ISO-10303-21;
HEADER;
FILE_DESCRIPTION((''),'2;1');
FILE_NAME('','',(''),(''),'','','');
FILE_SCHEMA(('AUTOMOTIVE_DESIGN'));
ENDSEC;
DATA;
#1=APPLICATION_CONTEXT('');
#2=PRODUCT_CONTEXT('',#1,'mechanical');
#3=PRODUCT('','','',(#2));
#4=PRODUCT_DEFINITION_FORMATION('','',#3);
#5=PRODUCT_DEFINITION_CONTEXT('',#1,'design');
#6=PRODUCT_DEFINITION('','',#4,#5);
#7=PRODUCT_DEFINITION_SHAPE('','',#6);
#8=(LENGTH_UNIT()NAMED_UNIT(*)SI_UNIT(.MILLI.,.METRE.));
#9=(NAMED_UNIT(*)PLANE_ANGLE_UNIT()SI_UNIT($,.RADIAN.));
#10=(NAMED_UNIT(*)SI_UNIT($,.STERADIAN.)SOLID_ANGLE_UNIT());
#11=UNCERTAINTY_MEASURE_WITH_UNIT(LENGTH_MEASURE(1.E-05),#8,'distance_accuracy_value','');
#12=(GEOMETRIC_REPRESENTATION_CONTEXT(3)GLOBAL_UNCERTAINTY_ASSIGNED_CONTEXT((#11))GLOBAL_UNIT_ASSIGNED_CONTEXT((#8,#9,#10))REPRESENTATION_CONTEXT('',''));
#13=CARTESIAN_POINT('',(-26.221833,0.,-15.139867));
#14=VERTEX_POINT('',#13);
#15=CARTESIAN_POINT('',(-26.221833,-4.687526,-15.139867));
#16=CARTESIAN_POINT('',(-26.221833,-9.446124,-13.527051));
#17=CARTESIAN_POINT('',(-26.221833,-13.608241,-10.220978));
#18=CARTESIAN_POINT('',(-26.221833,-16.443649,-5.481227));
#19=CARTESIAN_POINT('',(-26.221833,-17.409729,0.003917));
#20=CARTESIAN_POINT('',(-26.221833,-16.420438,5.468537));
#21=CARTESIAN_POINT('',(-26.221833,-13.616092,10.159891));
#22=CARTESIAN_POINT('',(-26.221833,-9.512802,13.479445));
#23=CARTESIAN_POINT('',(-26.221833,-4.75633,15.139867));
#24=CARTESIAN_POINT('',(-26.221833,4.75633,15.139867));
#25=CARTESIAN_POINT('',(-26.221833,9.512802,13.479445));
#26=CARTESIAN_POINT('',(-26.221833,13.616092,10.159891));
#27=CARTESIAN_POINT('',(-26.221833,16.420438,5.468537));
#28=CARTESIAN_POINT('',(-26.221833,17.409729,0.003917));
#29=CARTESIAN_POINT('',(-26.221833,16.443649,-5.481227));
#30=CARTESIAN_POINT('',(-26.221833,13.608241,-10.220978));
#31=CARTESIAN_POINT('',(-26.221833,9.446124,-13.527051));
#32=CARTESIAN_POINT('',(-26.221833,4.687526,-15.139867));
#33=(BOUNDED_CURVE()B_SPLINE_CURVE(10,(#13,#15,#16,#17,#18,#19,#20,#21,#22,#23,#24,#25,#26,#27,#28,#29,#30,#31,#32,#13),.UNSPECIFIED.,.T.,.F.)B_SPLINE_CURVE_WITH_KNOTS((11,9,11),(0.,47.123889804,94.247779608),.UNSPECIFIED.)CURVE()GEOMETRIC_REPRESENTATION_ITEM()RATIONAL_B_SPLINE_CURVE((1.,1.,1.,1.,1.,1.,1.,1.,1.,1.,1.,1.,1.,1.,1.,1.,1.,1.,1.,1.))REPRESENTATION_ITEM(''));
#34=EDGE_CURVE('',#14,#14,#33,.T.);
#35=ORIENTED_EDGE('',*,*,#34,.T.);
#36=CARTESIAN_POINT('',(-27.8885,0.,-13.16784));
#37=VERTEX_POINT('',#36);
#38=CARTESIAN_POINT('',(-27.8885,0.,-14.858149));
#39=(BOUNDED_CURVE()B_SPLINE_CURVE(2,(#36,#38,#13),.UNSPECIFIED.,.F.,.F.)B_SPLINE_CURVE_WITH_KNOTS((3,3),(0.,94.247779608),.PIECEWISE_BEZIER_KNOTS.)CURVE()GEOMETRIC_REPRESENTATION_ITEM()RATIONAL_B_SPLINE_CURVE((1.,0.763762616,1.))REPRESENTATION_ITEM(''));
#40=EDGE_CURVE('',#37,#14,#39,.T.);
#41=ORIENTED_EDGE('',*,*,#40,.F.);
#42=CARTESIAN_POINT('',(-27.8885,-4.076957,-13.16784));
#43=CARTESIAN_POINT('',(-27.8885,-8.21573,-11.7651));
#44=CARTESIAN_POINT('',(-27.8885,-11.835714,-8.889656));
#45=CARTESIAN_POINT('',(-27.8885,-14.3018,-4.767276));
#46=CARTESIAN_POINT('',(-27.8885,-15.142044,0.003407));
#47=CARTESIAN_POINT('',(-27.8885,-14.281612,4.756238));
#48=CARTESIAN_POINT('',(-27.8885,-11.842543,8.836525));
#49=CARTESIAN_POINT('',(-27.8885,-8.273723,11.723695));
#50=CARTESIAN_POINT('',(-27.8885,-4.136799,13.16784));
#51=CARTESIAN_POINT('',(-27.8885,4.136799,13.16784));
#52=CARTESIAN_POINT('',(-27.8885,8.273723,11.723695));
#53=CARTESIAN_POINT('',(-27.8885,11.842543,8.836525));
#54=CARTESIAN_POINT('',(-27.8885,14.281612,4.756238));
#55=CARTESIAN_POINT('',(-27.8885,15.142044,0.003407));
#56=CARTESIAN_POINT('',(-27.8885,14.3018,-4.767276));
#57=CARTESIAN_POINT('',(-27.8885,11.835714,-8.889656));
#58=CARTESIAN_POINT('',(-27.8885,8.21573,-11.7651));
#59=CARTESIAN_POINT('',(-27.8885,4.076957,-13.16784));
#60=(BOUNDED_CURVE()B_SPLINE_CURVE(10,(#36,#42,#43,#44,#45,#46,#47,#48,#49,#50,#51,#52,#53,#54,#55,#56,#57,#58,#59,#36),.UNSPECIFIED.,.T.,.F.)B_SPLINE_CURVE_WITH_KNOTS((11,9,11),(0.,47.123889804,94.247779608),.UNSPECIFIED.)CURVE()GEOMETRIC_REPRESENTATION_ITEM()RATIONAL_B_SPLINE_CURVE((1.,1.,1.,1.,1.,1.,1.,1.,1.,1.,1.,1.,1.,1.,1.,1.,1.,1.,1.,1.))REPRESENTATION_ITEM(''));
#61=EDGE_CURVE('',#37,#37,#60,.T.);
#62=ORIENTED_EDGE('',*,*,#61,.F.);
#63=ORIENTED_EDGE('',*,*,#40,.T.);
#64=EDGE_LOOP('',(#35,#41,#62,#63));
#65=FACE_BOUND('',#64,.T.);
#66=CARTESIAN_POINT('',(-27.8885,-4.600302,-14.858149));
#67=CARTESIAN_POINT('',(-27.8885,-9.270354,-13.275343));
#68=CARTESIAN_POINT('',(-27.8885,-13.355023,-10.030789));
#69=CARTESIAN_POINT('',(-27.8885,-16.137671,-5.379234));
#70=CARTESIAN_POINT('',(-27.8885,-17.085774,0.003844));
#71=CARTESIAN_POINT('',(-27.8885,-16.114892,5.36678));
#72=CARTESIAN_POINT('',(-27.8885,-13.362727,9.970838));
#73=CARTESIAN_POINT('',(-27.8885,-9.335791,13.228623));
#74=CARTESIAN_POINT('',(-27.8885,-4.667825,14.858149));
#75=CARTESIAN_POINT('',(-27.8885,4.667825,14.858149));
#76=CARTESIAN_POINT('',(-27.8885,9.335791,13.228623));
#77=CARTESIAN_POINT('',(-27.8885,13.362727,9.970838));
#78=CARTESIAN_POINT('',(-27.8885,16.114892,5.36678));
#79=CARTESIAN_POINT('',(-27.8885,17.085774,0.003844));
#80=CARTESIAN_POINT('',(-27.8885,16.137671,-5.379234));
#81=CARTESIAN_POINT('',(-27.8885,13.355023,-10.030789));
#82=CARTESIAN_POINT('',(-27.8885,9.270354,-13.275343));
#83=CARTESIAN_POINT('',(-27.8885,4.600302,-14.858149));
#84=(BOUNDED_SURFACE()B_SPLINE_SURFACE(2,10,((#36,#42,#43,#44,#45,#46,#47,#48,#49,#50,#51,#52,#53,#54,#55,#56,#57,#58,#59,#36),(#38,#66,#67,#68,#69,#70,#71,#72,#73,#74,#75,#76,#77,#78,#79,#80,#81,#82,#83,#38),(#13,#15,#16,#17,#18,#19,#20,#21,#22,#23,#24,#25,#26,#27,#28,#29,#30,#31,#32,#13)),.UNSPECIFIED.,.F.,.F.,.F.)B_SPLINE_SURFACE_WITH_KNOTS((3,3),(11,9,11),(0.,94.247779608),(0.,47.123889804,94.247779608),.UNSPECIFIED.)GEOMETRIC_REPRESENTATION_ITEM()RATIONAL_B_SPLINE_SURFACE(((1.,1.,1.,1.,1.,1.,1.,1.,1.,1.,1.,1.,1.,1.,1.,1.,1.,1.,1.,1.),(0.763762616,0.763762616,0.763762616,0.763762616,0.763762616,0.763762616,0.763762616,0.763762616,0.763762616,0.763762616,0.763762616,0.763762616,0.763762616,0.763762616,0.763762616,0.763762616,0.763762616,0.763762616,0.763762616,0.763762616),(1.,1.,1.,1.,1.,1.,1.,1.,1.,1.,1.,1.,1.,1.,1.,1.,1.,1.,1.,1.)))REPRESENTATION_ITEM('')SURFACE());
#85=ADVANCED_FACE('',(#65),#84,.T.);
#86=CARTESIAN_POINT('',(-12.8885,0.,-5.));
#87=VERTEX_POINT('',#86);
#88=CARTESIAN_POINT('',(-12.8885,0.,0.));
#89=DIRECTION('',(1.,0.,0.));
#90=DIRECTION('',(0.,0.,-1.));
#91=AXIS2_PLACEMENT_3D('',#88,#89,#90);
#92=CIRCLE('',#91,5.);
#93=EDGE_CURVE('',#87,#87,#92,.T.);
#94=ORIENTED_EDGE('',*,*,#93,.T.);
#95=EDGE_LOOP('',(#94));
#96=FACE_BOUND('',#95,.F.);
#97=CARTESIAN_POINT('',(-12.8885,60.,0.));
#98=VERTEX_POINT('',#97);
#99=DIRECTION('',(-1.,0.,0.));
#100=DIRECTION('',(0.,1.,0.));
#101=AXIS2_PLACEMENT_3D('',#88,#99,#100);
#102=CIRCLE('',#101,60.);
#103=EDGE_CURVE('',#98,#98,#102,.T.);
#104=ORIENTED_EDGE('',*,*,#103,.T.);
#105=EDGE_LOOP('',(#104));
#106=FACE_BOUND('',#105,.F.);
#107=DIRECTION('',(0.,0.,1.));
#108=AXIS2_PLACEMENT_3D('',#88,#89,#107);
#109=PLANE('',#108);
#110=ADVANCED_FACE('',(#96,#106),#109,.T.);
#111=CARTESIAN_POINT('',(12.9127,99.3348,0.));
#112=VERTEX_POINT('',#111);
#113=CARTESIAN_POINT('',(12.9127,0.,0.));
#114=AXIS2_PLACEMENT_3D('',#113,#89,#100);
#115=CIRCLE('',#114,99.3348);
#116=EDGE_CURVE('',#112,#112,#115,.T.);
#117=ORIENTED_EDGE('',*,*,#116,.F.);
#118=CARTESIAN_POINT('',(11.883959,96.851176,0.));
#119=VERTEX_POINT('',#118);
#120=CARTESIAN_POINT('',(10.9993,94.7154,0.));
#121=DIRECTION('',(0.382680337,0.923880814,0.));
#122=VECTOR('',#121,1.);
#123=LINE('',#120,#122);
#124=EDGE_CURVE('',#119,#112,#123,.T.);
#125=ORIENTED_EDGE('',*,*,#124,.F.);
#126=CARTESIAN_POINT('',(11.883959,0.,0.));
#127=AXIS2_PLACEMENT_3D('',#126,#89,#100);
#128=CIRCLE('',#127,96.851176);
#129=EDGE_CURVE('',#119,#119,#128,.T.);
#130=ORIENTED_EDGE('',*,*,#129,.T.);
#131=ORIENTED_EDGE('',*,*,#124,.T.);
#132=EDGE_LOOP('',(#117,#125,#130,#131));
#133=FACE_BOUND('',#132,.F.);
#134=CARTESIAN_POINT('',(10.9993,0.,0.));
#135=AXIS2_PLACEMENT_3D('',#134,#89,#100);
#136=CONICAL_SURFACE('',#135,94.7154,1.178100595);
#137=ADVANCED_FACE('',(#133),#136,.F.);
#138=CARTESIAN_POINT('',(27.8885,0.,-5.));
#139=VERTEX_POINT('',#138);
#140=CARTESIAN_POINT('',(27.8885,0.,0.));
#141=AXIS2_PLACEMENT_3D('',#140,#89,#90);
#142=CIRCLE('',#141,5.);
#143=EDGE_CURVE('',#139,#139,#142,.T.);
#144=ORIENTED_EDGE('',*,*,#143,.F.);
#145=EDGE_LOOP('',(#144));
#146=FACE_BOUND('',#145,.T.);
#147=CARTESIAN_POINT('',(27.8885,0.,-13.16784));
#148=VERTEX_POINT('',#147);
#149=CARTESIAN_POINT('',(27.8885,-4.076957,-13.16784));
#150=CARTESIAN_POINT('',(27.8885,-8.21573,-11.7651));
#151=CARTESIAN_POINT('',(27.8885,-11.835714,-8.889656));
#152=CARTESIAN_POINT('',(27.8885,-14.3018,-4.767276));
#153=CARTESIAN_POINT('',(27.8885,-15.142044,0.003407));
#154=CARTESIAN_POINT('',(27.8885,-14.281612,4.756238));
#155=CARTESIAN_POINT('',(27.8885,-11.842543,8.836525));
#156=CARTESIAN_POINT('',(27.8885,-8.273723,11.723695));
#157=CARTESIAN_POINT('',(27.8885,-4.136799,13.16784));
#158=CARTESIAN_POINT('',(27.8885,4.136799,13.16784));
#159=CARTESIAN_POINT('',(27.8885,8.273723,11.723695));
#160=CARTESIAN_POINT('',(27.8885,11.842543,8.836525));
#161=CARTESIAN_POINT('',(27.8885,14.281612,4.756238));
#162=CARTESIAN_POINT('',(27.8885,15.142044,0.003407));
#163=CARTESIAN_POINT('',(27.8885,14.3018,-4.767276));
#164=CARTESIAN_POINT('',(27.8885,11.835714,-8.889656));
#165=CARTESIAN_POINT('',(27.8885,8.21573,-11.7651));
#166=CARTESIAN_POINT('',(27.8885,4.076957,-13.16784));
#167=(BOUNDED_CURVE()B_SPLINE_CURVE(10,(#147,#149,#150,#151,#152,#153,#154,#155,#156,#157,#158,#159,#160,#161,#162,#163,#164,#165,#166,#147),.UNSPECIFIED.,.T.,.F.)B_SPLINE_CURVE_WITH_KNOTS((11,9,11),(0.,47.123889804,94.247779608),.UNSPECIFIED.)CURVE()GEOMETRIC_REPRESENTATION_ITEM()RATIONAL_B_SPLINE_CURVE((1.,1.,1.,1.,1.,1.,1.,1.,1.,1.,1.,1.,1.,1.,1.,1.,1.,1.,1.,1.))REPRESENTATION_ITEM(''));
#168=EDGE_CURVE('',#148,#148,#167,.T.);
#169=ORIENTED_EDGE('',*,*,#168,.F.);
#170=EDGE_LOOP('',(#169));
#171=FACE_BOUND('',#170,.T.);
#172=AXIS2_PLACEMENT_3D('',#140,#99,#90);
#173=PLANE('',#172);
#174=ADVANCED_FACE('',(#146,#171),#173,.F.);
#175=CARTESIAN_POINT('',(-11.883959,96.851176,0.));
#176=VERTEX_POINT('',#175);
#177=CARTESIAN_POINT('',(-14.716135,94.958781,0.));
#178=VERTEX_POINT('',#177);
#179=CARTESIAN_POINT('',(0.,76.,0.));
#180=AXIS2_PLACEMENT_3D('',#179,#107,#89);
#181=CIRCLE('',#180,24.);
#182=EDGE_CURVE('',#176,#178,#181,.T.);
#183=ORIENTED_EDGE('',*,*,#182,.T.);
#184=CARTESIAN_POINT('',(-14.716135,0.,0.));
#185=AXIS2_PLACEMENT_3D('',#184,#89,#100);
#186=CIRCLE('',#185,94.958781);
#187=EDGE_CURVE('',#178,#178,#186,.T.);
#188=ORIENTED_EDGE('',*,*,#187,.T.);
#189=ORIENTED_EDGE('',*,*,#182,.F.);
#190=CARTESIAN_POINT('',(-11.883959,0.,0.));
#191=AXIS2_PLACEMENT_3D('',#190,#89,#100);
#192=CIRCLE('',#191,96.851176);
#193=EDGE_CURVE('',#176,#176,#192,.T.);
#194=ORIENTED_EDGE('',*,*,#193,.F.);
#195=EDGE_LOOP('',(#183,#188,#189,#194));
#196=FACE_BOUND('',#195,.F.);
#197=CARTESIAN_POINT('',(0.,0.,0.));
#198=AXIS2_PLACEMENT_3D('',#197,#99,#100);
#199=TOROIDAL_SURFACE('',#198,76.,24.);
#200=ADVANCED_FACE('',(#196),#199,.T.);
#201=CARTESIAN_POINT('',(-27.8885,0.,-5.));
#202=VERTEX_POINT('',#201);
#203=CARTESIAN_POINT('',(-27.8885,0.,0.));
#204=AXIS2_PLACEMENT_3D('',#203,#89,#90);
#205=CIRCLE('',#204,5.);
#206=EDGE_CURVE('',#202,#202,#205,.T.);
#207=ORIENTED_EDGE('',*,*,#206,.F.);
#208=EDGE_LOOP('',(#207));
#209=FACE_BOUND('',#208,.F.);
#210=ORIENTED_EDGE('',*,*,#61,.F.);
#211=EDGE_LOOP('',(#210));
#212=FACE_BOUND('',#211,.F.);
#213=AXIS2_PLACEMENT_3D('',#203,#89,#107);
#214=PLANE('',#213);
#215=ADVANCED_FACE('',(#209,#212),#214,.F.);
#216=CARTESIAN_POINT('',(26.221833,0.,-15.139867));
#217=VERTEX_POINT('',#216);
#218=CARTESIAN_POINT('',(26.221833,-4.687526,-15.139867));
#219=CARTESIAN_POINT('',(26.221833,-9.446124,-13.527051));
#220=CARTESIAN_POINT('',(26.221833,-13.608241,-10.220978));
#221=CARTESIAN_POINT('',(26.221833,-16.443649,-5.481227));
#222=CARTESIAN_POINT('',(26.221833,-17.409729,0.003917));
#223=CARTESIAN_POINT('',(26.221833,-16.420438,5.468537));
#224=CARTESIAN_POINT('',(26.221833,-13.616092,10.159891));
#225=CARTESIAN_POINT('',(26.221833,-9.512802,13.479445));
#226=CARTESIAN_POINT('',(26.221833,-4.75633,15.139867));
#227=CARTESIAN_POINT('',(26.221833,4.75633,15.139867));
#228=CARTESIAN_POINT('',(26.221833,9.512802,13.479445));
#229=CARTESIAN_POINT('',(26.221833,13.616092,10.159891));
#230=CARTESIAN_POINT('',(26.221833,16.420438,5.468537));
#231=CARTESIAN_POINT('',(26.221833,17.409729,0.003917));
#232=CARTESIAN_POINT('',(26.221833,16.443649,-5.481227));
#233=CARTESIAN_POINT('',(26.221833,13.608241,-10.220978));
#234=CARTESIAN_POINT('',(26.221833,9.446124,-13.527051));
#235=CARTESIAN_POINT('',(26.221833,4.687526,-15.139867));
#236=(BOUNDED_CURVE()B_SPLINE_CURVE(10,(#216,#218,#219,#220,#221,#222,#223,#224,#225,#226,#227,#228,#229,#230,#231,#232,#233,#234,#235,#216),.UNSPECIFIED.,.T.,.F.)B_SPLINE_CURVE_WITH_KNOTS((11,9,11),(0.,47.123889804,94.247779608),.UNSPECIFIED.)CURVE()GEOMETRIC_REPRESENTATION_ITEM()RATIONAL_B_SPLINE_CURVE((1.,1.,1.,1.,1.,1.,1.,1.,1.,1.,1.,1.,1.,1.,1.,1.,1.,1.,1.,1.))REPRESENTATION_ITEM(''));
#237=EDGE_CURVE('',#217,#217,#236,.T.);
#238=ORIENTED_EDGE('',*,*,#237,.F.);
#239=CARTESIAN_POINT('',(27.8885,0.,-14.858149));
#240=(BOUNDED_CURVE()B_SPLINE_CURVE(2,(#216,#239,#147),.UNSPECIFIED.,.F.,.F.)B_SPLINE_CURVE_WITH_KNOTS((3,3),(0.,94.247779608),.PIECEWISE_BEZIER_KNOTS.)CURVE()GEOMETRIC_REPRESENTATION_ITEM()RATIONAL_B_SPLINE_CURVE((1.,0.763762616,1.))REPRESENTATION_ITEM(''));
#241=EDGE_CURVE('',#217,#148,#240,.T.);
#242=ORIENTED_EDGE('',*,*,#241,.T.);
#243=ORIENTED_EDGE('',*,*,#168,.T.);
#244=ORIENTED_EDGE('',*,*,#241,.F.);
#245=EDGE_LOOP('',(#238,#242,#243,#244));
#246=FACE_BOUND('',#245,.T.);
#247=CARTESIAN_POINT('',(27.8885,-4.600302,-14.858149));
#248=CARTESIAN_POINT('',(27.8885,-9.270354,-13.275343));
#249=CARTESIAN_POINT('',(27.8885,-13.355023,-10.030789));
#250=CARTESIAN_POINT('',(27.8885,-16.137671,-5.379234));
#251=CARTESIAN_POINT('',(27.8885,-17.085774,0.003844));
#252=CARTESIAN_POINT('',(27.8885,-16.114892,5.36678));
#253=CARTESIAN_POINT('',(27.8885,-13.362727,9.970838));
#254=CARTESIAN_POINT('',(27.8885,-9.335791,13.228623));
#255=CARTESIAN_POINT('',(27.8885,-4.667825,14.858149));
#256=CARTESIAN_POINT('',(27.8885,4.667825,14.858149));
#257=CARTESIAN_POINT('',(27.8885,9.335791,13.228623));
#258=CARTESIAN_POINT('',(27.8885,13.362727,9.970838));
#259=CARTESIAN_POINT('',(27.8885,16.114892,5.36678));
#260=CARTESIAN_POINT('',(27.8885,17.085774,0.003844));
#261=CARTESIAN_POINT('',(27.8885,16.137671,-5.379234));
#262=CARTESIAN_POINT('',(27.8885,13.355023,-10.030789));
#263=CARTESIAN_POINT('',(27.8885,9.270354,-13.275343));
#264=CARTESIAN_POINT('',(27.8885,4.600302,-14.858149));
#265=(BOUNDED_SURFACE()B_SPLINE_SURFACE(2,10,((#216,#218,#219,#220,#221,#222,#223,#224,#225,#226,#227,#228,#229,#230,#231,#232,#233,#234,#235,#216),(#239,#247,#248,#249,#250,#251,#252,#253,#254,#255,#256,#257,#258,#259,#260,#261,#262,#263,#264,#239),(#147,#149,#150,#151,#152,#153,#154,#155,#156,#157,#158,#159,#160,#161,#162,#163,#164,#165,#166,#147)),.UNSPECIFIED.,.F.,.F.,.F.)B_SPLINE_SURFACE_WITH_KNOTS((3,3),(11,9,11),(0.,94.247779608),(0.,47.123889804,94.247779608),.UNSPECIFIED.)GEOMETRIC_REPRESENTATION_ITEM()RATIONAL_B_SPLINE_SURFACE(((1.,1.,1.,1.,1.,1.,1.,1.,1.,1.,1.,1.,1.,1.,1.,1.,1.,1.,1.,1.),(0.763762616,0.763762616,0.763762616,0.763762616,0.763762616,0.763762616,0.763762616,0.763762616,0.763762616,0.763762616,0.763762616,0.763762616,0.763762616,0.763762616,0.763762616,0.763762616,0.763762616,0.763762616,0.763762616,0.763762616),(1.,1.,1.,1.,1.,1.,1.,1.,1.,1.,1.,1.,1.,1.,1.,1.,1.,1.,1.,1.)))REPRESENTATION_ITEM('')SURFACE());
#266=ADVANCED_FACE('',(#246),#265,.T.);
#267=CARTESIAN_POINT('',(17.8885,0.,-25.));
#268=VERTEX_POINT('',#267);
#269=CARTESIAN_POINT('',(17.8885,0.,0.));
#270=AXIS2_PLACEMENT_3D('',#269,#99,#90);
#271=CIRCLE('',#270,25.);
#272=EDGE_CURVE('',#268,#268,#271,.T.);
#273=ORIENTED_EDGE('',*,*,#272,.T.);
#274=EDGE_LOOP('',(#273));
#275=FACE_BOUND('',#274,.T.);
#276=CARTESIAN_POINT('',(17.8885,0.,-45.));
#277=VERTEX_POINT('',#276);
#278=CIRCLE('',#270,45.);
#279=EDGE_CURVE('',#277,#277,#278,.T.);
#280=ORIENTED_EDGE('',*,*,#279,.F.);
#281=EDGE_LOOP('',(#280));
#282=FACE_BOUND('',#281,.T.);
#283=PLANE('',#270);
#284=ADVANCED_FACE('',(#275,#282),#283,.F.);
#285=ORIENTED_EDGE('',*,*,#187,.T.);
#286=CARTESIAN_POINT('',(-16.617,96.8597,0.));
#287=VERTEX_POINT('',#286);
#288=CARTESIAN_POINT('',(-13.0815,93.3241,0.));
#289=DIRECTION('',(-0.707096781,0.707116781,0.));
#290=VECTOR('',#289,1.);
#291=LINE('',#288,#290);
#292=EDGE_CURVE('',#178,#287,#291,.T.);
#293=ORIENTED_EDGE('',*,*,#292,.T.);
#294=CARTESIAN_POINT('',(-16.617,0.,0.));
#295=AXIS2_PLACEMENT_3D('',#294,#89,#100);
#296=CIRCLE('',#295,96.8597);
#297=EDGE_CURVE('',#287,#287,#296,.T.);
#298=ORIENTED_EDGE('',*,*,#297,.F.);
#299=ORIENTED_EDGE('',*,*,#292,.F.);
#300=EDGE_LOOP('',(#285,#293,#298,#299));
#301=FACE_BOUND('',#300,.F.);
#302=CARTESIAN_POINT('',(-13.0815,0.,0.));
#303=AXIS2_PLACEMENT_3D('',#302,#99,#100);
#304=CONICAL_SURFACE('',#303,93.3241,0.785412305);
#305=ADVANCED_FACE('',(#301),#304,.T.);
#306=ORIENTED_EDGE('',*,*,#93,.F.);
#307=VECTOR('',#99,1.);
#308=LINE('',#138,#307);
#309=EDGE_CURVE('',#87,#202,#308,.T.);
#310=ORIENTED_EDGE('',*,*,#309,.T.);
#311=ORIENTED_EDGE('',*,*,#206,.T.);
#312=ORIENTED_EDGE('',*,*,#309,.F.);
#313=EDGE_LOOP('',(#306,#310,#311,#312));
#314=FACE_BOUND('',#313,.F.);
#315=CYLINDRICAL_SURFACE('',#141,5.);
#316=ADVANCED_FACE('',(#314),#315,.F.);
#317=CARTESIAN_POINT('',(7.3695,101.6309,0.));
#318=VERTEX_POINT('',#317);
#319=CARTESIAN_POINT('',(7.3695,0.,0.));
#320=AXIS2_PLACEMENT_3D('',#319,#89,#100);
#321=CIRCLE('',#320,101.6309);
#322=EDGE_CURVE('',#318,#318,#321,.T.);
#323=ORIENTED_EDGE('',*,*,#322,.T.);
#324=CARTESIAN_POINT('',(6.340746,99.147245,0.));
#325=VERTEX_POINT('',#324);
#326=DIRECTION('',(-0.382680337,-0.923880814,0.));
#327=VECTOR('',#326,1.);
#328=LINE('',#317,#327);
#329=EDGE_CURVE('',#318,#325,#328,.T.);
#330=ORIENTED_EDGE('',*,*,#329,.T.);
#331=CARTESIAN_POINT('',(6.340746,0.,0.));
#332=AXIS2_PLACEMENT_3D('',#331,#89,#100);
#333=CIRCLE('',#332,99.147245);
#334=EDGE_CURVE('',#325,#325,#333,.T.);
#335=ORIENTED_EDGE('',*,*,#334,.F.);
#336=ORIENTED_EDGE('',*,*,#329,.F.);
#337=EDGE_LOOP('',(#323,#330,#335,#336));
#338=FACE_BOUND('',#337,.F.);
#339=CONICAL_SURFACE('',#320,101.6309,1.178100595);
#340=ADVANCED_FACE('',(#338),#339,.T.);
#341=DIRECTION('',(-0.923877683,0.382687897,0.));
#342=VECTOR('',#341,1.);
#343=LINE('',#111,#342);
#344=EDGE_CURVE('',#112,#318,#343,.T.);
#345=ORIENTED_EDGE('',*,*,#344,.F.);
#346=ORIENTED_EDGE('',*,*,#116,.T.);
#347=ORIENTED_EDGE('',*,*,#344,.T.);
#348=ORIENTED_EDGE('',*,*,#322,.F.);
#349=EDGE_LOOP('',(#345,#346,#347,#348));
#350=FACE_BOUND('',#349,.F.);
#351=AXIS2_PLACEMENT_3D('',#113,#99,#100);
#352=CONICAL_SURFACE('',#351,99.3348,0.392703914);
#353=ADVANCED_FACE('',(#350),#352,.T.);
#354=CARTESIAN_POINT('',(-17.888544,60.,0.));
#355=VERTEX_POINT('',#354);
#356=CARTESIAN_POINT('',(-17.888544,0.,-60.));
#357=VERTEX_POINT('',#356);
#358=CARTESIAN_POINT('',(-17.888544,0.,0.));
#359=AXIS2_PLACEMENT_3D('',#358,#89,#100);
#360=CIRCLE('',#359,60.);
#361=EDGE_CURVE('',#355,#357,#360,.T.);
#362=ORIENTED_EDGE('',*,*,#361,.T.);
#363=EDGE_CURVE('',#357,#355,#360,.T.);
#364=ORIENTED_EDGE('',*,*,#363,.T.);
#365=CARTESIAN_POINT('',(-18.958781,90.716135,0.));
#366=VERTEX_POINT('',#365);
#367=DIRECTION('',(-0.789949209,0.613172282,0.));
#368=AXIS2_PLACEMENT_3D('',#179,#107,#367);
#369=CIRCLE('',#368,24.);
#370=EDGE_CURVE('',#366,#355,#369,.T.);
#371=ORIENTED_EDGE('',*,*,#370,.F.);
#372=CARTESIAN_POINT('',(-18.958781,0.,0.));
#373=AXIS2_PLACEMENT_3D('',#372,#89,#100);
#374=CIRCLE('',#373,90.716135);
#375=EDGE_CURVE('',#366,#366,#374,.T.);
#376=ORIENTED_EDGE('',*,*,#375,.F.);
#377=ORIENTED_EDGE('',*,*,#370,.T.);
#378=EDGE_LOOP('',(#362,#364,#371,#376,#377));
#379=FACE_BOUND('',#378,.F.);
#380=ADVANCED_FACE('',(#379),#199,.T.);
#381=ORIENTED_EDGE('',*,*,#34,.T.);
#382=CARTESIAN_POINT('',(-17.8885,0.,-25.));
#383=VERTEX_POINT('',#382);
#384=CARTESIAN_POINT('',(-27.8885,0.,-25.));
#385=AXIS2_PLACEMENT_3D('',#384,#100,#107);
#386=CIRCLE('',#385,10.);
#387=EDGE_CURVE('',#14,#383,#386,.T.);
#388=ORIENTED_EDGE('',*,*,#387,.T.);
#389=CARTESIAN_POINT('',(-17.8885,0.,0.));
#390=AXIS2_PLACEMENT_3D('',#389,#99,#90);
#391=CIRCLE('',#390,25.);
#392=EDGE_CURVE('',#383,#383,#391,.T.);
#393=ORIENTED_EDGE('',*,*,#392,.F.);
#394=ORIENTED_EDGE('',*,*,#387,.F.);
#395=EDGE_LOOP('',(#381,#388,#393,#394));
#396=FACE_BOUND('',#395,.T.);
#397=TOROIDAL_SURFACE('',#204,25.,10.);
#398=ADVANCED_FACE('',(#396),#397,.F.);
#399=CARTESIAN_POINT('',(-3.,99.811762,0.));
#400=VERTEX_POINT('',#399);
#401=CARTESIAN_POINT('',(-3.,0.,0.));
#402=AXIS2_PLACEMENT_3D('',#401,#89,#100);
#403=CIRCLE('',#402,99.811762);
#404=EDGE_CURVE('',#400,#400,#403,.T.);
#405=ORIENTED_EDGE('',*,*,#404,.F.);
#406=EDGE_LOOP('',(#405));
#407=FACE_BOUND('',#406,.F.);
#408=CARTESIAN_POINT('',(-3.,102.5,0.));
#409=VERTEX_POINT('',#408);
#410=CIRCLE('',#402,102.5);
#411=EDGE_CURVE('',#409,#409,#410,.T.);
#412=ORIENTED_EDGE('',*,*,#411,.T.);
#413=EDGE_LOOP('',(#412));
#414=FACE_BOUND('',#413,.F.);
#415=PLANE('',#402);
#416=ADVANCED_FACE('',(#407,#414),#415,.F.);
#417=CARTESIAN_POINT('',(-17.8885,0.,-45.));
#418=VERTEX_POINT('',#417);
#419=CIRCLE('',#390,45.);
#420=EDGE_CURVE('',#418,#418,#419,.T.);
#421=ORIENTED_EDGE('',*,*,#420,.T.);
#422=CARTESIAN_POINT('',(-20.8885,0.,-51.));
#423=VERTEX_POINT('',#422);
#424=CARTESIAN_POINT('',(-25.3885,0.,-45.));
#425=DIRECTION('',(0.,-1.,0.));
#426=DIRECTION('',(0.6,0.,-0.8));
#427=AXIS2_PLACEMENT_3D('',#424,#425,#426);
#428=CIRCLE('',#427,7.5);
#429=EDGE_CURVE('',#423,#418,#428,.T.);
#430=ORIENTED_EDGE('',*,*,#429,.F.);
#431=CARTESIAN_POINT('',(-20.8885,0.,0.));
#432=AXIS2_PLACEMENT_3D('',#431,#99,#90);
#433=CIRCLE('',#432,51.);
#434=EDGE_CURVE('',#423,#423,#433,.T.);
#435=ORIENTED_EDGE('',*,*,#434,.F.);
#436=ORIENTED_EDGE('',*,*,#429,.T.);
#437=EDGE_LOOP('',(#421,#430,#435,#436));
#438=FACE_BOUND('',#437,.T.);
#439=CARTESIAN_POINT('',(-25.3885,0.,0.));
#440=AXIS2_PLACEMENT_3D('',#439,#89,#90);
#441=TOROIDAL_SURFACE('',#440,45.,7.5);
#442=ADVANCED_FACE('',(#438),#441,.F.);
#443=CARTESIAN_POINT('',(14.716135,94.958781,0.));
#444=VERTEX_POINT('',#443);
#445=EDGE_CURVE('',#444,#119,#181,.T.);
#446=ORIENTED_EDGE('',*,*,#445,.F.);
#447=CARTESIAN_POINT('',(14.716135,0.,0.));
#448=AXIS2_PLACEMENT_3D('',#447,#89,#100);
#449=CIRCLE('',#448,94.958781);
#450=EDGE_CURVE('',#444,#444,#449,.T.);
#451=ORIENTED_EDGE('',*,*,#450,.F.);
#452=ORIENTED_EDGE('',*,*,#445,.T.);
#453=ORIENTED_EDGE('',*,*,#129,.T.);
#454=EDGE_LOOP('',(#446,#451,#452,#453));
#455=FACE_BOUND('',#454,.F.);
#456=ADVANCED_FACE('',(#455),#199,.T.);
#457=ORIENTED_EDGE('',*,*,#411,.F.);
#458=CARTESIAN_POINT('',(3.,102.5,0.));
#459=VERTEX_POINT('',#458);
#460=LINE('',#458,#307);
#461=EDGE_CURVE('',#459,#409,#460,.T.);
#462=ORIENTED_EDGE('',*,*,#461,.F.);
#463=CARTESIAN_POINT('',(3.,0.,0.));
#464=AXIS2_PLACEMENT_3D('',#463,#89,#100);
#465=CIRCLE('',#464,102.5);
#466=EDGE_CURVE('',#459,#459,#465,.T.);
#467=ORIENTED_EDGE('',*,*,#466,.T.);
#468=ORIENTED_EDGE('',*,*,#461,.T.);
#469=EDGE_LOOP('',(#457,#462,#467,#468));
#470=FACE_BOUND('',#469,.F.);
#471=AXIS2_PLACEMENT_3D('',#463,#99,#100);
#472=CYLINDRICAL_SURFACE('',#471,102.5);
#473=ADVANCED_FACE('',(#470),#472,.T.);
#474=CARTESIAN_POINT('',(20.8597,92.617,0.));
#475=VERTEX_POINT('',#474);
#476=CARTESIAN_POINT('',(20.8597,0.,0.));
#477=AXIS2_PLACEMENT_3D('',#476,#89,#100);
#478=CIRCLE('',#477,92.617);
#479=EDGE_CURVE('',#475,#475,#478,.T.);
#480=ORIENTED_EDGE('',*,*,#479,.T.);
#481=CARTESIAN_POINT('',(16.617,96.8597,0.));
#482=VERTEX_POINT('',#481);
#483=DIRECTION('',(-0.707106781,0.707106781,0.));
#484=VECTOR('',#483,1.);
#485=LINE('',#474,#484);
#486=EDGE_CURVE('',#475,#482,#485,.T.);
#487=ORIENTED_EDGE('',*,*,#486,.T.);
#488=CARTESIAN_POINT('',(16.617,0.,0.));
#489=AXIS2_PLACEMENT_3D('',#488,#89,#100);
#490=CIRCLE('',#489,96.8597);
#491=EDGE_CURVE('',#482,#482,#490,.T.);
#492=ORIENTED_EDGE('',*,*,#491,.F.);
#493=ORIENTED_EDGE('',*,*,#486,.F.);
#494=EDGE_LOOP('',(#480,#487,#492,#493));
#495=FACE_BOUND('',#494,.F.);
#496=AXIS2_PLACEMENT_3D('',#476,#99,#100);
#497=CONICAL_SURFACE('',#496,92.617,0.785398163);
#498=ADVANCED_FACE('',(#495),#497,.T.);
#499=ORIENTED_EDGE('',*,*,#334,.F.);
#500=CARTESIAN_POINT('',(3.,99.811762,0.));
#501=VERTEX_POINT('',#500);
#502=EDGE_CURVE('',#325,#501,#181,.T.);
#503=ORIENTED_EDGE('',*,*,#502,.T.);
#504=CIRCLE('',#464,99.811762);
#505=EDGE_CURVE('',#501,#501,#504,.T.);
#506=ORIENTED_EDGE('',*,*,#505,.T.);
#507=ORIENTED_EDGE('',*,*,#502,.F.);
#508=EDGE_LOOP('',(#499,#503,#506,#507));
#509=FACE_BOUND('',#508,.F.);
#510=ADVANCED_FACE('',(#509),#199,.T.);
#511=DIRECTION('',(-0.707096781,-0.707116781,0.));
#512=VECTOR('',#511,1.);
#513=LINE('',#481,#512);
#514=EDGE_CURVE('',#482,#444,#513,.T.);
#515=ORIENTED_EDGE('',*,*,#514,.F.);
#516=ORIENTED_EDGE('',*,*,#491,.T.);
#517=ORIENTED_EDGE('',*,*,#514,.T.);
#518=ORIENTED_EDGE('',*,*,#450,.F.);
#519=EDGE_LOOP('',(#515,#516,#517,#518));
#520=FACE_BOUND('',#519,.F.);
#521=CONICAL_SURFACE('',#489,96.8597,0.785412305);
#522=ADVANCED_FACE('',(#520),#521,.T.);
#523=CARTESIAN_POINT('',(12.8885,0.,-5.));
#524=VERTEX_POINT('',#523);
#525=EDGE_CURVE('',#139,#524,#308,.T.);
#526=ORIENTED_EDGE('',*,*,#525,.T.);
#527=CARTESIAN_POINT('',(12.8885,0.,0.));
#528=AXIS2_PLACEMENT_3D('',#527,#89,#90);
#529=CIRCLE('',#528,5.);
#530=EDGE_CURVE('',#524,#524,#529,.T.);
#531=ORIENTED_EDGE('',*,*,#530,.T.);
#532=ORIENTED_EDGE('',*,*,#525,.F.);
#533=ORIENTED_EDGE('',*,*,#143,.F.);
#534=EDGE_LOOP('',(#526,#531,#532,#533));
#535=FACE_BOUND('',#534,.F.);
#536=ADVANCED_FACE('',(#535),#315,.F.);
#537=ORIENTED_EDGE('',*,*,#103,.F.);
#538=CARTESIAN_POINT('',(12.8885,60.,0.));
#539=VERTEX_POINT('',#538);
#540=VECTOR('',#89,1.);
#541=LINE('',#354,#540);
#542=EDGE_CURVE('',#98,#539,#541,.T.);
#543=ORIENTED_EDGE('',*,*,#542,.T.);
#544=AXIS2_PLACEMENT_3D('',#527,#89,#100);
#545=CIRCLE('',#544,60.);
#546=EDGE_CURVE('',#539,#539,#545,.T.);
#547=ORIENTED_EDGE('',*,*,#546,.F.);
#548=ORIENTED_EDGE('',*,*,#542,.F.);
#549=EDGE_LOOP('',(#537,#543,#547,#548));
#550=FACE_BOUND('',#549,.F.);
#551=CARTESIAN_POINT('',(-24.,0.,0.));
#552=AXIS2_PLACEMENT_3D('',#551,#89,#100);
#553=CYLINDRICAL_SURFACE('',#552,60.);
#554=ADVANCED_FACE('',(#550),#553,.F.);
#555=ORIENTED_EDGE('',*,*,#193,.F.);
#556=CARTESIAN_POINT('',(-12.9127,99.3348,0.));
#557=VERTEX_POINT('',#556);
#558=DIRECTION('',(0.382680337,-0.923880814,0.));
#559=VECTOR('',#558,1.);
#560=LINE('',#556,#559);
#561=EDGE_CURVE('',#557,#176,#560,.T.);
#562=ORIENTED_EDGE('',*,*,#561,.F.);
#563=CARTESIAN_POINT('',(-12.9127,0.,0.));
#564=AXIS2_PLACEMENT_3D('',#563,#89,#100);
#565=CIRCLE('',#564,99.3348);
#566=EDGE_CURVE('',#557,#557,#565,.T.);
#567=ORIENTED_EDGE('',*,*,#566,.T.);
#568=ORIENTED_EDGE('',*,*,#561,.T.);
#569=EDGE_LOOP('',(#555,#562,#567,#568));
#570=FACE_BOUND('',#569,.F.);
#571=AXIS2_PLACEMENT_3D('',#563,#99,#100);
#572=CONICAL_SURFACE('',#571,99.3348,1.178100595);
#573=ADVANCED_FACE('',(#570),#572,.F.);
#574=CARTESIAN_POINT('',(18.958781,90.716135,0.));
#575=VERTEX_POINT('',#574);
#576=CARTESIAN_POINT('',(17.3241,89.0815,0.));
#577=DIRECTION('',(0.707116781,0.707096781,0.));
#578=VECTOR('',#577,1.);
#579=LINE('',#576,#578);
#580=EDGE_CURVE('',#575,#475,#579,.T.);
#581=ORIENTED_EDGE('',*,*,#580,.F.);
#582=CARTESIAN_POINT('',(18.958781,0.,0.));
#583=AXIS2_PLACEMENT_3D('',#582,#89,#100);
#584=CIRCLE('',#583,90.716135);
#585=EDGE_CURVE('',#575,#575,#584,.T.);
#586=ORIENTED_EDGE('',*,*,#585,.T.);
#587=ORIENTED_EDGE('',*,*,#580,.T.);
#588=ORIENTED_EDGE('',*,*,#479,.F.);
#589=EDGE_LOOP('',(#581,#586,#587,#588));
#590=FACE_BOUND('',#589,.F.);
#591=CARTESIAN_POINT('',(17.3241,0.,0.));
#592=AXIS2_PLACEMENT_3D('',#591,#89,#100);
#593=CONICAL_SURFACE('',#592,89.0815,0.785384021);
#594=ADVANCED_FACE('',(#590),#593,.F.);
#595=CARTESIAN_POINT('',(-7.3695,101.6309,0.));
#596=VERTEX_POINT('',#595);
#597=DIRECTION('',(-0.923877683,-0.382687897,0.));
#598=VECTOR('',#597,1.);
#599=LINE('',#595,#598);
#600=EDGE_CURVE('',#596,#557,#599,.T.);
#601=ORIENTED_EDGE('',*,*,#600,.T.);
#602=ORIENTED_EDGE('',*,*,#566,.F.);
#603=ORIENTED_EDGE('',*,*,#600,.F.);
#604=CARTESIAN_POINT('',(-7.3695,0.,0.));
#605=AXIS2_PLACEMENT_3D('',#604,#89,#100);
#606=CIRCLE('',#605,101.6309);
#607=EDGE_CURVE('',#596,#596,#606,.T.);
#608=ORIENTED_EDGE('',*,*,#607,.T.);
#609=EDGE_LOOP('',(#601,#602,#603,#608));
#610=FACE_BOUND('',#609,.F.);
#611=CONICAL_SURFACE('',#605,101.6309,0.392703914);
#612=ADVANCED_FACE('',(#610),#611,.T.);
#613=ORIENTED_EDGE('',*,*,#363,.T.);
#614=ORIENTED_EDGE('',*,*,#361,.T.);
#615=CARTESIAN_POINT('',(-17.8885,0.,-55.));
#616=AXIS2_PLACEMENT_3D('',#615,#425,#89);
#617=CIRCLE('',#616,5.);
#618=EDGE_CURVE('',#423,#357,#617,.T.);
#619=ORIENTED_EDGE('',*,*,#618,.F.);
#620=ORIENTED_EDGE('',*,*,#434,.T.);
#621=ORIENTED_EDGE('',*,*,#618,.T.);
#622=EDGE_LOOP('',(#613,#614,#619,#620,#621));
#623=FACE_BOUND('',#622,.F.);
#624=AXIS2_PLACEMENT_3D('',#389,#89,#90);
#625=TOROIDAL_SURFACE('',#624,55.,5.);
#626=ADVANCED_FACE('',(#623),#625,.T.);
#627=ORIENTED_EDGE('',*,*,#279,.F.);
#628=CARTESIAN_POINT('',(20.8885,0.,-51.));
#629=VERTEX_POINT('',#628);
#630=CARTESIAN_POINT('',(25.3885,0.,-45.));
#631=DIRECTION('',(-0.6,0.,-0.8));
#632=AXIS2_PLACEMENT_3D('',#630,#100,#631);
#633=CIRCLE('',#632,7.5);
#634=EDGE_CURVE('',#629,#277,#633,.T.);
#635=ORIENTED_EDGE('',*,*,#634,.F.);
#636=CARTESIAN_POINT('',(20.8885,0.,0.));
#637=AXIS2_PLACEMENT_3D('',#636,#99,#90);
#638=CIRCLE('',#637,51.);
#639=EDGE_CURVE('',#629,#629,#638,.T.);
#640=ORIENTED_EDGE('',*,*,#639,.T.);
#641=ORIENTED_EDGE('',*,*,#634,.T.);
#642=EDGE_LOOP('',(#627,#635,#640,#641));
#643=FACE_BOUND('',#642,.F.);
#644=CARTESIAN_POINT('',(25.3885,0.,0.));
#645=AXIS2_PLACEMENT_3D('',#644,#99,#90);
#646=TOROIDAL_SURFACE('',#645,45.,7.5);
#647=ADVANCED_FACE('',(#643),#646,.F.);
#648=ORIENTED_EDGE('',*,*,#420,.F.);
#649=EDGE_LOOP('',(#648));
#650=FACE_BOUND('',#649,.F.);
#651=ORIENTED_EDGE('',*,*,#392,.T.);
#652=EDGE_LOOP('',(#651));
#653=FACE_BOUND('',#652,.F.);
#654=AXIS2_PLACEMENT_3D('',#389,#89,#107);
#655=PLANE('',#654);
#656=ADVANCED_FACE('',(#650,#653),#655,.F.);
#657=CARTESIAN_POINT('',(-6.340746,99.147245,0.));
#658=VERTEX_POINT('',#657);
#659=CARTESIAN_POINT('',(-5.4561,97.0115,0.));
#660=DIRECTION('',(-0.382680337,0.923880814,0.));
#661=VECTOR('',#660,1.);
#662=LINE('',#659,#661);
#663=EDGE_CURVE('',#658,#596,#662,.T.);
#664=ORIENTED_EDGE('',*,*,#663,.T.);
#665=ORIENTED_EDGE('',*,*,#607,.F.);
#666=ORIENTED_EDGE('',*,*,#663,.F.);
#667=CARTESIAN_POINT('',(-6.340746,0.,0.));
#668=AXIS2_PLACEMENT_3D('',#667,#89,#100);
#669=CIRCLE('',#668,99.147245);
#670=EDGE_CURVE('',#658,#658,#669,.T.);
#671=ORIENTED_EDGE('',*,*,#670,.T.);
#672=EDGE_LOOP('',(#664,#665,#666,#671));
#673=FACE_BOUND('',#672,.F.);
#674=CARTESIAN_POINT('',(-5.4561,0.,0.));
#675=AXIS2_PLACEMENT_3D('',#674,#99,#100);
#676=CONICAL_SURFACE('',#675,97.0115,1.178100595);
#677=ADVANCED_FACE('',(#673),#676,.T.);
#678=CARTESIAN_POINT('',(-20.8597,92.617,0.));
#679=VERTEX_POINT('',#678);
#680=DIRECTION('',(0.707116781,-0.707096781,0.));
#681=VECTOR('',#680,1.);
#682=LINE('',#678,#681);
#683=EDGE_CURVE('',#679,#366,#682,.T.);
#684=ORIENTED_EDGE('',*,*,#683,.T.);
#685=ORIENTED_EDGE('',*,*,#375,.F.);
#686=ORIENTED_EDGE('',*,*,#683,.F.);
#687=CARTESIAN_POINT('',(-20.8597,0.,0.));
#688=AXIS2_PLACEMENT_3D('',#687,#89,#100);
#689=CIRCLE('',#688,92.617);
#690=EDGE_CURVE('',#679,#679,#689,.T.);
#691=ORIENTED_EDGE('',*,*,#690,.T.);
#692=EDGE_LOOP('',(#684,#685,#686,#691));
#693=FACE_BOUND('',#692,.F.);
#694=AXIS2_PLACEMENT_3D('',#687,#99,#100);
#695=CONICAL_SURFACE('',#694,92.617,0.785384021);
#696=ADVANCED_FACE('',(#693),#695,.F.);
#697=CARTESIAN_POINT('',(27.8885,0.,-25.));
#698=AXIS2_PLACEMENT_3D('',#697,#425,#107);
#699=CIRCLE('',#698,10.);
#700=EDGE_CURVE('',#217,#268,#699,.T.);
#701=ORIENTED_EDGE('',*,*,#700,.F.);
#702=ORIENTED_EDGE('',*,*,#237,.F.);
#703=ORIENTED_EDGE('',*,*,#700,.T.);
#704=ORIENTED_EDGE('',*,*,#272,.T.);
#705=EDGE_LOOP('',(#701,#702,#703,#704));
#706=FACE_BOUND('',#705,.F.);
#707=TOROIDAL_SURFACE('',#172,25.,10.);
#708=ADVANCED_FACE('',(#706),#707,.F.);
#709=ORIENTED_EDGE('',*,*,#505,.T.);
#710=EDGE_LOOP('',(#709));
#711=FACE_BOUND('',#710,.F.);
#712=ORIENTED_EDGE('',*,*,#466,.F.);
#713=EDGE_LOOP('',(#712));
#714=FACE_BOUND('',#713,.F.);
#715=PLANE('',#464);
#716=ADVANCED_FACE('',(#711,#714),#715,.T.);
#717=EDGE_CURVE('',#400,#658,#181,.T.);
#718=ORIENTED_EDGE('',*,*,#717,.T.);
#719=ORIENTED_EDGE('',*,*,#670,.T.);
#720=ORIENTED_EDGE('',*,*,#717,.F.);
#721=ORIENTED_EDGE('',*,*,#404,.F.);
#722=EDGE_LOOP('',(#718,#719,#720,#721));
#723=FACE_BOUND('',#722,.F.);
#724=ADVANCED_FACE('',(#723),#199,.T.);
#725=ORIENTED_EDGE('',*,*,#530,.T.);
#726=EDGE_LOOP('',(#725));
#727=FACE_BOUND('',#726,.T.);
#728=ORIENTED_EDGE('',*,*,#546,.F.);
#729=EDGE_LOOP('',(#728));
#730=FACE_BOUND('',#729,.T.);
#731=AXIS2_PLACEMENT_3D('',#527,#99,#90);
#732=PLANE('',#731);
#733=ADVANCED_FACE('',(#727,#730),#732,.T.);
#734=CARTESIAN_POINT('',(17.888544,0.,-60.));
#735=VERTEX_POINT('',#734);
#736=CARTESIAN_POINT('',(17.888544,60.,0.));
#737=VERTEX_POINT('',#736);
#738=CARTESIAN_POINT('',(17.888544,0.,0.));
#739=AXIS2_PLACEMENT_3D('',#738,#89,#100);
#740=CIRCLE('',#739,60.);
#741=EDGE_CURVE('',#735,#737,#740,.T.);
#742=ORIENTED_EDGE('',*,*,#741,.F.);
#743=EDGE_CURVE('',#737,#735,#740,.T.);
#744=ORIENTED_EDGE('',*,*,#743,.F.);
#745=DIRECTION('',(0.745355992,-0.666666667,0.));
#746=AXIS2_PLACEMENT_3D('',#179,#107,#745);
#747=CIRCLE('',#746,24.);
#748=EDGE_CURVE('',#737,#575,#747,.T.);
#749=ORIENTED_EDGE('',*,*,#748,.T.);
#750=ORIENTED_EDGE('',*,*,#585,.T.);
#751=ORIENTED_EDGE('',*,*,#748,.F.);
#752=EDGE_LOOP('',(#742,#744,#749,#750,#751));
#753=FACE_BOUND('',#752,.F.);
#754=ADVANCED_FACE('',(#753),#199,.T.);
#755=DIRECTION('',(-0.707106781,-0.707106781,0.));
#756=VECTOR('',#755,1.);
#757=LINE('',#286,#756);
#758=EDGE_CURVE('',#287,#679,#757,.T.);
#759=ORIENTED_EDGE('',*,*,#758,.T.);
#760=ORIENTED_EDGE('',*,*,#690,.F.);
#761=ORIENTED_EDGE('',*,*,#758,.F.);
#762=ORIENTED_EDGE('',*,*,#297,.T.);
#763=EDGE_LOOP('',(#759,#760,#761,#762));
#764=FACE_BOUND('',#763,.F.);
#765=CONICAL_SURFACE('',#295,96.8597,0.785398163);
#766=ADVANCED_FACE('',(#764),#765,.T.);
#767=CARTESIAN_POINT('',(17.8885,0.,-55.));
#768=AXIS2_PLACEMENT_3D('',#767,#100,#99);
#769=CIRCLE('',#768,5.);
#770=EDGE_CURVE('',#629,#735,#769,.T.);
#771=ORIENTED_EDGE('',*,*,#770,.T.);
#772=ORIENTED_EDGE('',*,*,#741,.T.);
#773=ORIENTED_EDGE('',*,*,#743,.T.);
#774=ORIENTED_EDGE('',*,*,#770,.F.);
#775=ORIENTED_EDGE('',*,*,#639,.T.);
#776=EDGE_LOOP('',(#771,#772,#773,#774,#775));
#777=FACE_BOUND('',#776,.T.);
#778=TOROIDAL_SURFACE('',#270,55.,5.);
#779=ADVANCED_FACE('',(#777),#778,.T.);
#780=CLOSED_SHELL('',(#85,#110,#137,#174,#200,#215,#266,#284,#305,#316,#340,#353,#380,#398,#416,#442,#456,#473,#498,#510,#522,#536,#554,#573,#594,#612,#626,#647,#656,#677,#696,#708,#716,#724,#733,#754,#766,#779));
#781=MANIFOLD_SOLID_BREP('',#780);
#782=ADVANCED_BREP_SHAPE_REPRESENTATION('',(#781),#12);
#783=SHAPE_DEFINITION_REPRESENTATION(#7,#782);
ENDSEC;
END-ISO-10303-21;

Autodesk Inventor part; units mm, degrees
ref_plane "YZ Plane" through (0, 0, 0) normal (1, 0, 0) x (0, 1, 0)
ref_plane "XZ Plane" through (0, 0, 0) normal (0, 1, 0) x (-1, 0, 0)
ref_plane "XY Plane" through (0, 0, 0) normal (0, 0, 1) x (1, 0, 0)
sketch "Sketch1" plane through (0, 0, 0) normal (0, 0, 1) x (1, 0, 0)
  circle A0 centre (0, 76) radius 24
  line L0 (-3, 97.5) -> (3, 97.5)
  line L1 (3, 97.5) -> (3, 102.5)
  line L2 (3, 102.5) -> (-3, 102.5)
  line L3 (-3, 102.5) -> (-3, 97.5)
  line L4 (-3, 97.5) -> (3, 102.5) construction
  line L5 (3, 97.5) -> (-3, 102.5) construction
  line L6 (-10.9993, 94.7154) -> (-5.4561, 97.0115)
  line L7 (-5.4561, 97.0115) -> (-7.3695, 101.6309)
  line L8 (-7.3695, 101.6309) -> (-12.9127, 99.3348)
  line L9 (-12.9127, 99.3348) -> (-10.9993, 94.7154)
  line L10 (-10.9993, 94.7154) -> (-7.3695, 101.6309) construction
  line L11 (-5.4561, 97.0115) -> (-12.9127, 99.3348) construction
  line L12 (-17.3241, 89.0815) -> (-13.0815, 93.3241)
  line L13 (-13.0815, 93.3241) -> (-16.617, 96.8597)
  line L14 (-16.617, 96.8597) -> (-20.8597, 92.617)
  line L15 (-20.8597, 92.617) -> (-17.3241, 89.0815)
  line L16 (-17.3241, 89.0815) -> (-16.617, 96.8597) construction
  line L17 (-13.0815, 93.3241) -> (-20.8597, 92.617) construction
  line L18 (-21.0115, 81.4561) -> (-18.7154, 86.9993)
  line L19 (-18.7154, 86.9993) -> (-23.3348, 88.9127)
  line L20 (-23.3348, 88.9127) -> (-25.6309, 83.3695)
  line L21 (-25.6309, 83.3695) -> (-21.0115, 81.4561)
  line L22 (-21.0115, 81.4561) -> (-23.3348, 88.9127) construction
  line L23 (-18.7154, 86.9993) -> (-25.6309, 83.3695) construction
  line L24 (-21.5, 73) -> (-21.5, 79)
  line L25 (-21.5, 79) -> (-26.5, 79)
  line L26 (-26.5, 79) -> (-26.5, 73)
  line L27 (-26.5, 73) -> (-21.5, 73)
  line L28 (-21.5, 73) -> (-26.5, 79) construction
  line L29 (-21.5, 79) -> (-26.5, 73) construction
  line L30 (-18.7154, 65.0007) -> (-21.0115, 70.5439)
  line L31 (-21.0115, 70.5439) -> (-25.6309, 68.6305)
  line L32 (-25.6309, 68.6305) -> (-23.3348, 63.0873)
  line L33 (-23.3348, 63.0873) -> (-18.7154, 65.0007)
  line L34 (-18.7154, 65.0007) -> (-25.6309, 68.6305) construction
  line L35 (-21.0115, 70.5439) -> (-23.3348, 63.0873) construction
  line L36 (-13.0815, 58.6759) -> (-17.3241, 62.9185)
  line L37 (-17.3241, 62.9185) -> (-20.8597, 59.383)
  line L38 (-20.8597, 59.383) -> (-16.617, 55.1403)
  line L39 (-16.617, 55.1403) -> (-13.0815, 58.6759)
  line L40 (-13.0815, 58.6759) -> (-20.8597, 59.383) construction
  line L41 (-17.3241, 62.9185) -> (-16.617, 55.1403) construction
  line L42 (-5.4561, 54.9885) -> (-10.9993, 57.2846)
  line L43 (-10.9993, 57.2846) -> (-12.9127, 52.6652)
  line L44 (-12.9127, 52.6652) -> (-7.3695, 50.3691)
  line L45 (-7.3695, 50.3691) -> (-5.4561, 54.9885)
  line L46 (-5.4561, 54.9885) -> (-12.9127, 52.6652) construction
  line L47 (-10.9993, 57.2846) -> (-7.3695, 50.3691) construction
  line L48 (3, 54.5) -> (-3, 54.5)
  line L49 (-3, 54.5) -> (-3, 49.5)
  line L50 (-3, 49.5) -> (3, 49.5)
  line L51 (3, 49.5) -> (3, 54.5)
  line L52 (3, 54.5) -> (-3, 49.5) construction
  line L53 (-3, 54.5) -> (3, 49.5) construction
  line L54 (10.9993, 57.2846) -> (5.4561, 54.9885)
  line L55 (5.4561, 54.9885) -> (7.3695, 50.3691)
  line L56 (7.3695, 50.3691) -> (12.9127, 52.6652)
  line L57 (12.9127, 52.6652) -> (10.9993, 57.2846)
  line L58 (10.9993, 57.2846) -> (7.3695, 50.3691) construction
  line L59 (5.4561, 54.9885) -> (12.9127, 52.6652) construction
  line L60 (17.3241, 62.9185) -> (13.0815, 58.6759)
  line L61 (13.0815, 58.6759) -> (16.617, 55.1403)
  line L62 (16.617, 55.1403) -> (20.8597, 59.383)
  line L63 (20.8597, 59.383) -> (17.3241, 62.9185)
  line L64 (17.3241, 62.9185) -> (16.617, 55.1403) construction
  line L65 (13.0815, 58.6759) -> (20.8597, 59.383) construction
  line L66 (21.0115, 70.5439) -> (18.7154, 65.0007)
  line L67 (18.7154, 65.0007) -> (23.3348, 63.0873)
  line L68 (23.3348, 63.0873) -> (25.6309, 68.6305)
  line L69 (25.6309, 68.6305) -> (21.0115, 70.5439)
  line L70 (21.0115, 70.5439) -> (23.3348, 63.0873) construction
  line L71 (18.7154, 65.0007) -> (25.6309, 68.6305) construction
  line L72 (21.5, 79) -> (21.5, 73)
  line L73 (21.5, 73) -> (26.5, 73)
  line L74 (26.5, 73) -> (26.5, 79)
  line L75 (26.5, 79) -> (21.5, 79)
  line L76 (21.5, 79) -> (26.5, 73) construction
  line L77 (21.5, 73) -> (26.5, 79) construction
  line L78 (18.7154, 86.9993) -> (21.0115, 81.4561)
  line L79 (21.0115, 81.4561) -> (25.6309, 83.3695)
  line L80 (25.6309, 83.3695) -> (23.3348, 88.9127)
  line L81 (23.3348, 88.9127) -> (18.7154, 86.9993)
  line L82 (18.7154, 86.9993) -> (25.6309, 83.3695) construction
  line L83 (21.0115, 81.4561) -> (23.3348, 88.9127) construction
  line L84 (13.0815, 93.3241) -> (17.3241, 89.0815)
  line L85 (17.3241, 89.0815) -> (20.8597, 92.617)
  line L86 (20.8597, 92.617) -> (16.617, 96.8597)
  line L87 (16.617, 96.8597) -> (13.0815, 93.3241)
  line L88 (13.0815, 93.3241) -> (20.8597, 92.617) construction
  line L89 (17.3241, 89.0815) -> (16.617, 96.8597) construction
  line L90 (5.4561, 97.0115) -> (10.9993, 94.7154)
  line L91 (10.9993, 94.7154) -> (12.9127, 99.3348)
  line L92 (12.9127, 99.3348) -> (7.3695, 101.6309)
  line L93 (7.3695, 101.6309) -> (5.4561, 97.0115)
  line L94 (5.4561, 97.0115) -> (12.9127, 99.3348) construction
  line L95 (10.9993, 94.7154) -> (7.3695, 101.6309) construction
  line L96 (-24, 76) -> (-24, 60)
  line L97 (24, 76) -> (24, 60)
  line L98 (-24, 60) -> (24, 60)
  line L99 (-37.1, 0) -> (37.1, 0) projected
  point P0 (0, 0)
  point P1 (0, 100)
  point P2 (-9.1844, 98.1731)
  point P3 (-16.9706, 92.9706)
  point P4 (-22.1731, 85.1844)
  point P5 (-22.1731, 66.8156)
  point P6 (-16.9706, 59.0294)
  point P7 (-9.1844, 53.8269)
  point P8 (0, 52)
  point P9 (9.1844, 53.8269)
  point P10 (16.9706, 59.0294)
  point P11 (22.1731, 66.8156)
  point P12 (22.1731, 85.1844)
  point P13 (16.9706, 92.9706)
  point P14 (9.1844, 98.1731)
  point P15 (-3, 99.8118)
  point P16 (-6.3407, 99.1472)
  point P17 (-11.884, 96.8511)
  point P18 (-14.7161, 94.9588)
  point P19 (-18.9588, 90.7161)
  point P20 (-17.8885, 60)
  point P21 (17.8885, 60)
  point P22 (23.8118, 73)
  point P23 (24, 73)
  point P24 (18.9588, 90.7161)
  point P25 (14.7161, 94.9588)
  point P26 (11.884, 96.8511)
  point P27 (6.3407, 99.1472)
  point P28 (3, 99.8118)
  dimension "d0" = 48
  dimension "d1" = 100
  dimension "d2" = 6
  dimension "d3" = 5
  dimension "d6" = 360
  dimension "d9" = 40
revolve "Revolution1" add sketch "Sketch1" angle 360 about axis through (-10, 0, 0) along (1, 0, 0) contours A0 L73 L72 L75 | L75 L72 L73 A0 L69 L66 L67 L63 L60 L98 L36 L37 L33 L30 L31 L27 L24 L25 L21 L18 L19 L15 L12 L13 L9 L6 L7 L3 L0 L1 L93 L90 L91 L87 L84 L85 L81 L78 L79 | L79 L78 L81 A0 | A0 L67 L66 L69 | L85 L84 L87 A0 | A0 L87 L86 L85 | A0 L98 L60 L63 | L91 L90 L93 A0 | A0 L93 L92 L91 | L98 A0 L37 L36 | L1 L0 L3 A0 | A0 L3 L2 L1 | L7 L6 L9 A0 | A0 L9 L8 L7 | A0 L31 L30 L33 | L13 L12 L15 A0 | A0 L15 L14 L13 | A0 L25 L24 L27 | L19 L18 L21 A0
sketch "Sketch2" plane through (0, 0, 0) normal (0, 1, 0) x (-1, 0, 0)
  line L0 (-17.8885, 60) -> (-17.8885, -60) projected
  line L1 (17.8885, 60) -> (17.8885, -60) projected
  circle A0 centre (-17.8885, 55) radius 5
  line L2 (-27.8885, 15) -> (-27.8885, -15)
  arc A1 (-27.8885, 15) -> (-17.8885, 25) centre (-27.8885, 25) ccw
  arc A2 (-17.8885, -25) -> (-27.8885, -15) centre (-27.8885, -25) ccw
  arc A3 (-17.8885, 45) -> (-20.8885, 51) centre (-25.3885, 45) ccw
  line L3 (-27.8885, 0) -> (20.8597, 0) construction
  line L4 (20.8597, 92.617) -> (20.8597, -92.617) construction
  line L5 (-17.8885, 60) -> (17.8885, 60) construction
  line L6 (0, 60) -> (0, -60) construction
  line L7 (3, 99.8118) -> (3, -99.8118) construction
  circle A4 centre (-17.8885, -55) radius 5
  arc A5 (-20.8885, -51) -> (-17.8885, -45) centre (-25.3885, -45) ccw
  circle A6 centre (17.8885, 55) radius 5
  line L8 (27.8885, 15) -> (27.8885, -15)
  arc A7 (17.8885, 25) -> (27.8885, 15) centre (27.8885, 25) ccw
  arc A8 (27.8885, -15) -> (17.8885, -25) centre (27.8885, -25) ccw
  arc A9 (20.8885, 51) -> (17.8885, 45) centre (25.3885, 45) ccw
  arc A10 (17.8885, -45) -> (20.8885, -51) centre (25.3885, -45) ccw
  circle A11 centre (17.8885, -55) radius 5
  line L9 (-24, 76) -> (-24, -76) projected
  line L10 (-12.8885, 0) -> (-27.8885, 0)
  line L11 (-17.8885, -60) -> (-12.8885, -60)
  line L12 (-12.8885, -60) -> (-12.8885, 60)
  line L13 (-12.8885, 60) -> (-17.8885, 60)
  line L14 (-17.8885, 60) -> (-17.8885, -60)
  point P0 (0, 0)
  point P1 (27.8885, 0)
  dimension "d11" = 10
  dimension "d12" = 30
  dimension "d13" = 10
  dimension "d14" = 10
  dimension "d15" = 5
revolve "Revolution2" add sketch "Sketch2" angle 360 about axis through (27.8885, 0, 0) along (-1, 0, 0) contours L10 L12 A4 L0 | L0 A2 L9 L10 | L9 A2 L2 L10 | L0 A4 A5 | L12 L11 A4 | A4 L0 | L0 A4
mirror "Mirror1" about plane through (0, 0, 0) normal (1, 0, 0) of "Revolution2"
sketch "Sketch3" plane through (27.8885, 0, 0) normal (1, 0, 0) x (0, 0, -1)
  circle A0 centre (0, 0) radius 15 projected
  circle A1 centre (0, 0) radius 15 projected
  circle A2 centre (0, 0) radius 5
  dimension "d17" = 10
extrude "Extrusion1" cut sketch "Sketch3" against normal through all contours A2
fillet "Fillet1" radius 2 2 edges at (27.8885, 0, 15) (-27.8885, 0, 15)
properties part number "achterwiel" material "Stainless Steel"
